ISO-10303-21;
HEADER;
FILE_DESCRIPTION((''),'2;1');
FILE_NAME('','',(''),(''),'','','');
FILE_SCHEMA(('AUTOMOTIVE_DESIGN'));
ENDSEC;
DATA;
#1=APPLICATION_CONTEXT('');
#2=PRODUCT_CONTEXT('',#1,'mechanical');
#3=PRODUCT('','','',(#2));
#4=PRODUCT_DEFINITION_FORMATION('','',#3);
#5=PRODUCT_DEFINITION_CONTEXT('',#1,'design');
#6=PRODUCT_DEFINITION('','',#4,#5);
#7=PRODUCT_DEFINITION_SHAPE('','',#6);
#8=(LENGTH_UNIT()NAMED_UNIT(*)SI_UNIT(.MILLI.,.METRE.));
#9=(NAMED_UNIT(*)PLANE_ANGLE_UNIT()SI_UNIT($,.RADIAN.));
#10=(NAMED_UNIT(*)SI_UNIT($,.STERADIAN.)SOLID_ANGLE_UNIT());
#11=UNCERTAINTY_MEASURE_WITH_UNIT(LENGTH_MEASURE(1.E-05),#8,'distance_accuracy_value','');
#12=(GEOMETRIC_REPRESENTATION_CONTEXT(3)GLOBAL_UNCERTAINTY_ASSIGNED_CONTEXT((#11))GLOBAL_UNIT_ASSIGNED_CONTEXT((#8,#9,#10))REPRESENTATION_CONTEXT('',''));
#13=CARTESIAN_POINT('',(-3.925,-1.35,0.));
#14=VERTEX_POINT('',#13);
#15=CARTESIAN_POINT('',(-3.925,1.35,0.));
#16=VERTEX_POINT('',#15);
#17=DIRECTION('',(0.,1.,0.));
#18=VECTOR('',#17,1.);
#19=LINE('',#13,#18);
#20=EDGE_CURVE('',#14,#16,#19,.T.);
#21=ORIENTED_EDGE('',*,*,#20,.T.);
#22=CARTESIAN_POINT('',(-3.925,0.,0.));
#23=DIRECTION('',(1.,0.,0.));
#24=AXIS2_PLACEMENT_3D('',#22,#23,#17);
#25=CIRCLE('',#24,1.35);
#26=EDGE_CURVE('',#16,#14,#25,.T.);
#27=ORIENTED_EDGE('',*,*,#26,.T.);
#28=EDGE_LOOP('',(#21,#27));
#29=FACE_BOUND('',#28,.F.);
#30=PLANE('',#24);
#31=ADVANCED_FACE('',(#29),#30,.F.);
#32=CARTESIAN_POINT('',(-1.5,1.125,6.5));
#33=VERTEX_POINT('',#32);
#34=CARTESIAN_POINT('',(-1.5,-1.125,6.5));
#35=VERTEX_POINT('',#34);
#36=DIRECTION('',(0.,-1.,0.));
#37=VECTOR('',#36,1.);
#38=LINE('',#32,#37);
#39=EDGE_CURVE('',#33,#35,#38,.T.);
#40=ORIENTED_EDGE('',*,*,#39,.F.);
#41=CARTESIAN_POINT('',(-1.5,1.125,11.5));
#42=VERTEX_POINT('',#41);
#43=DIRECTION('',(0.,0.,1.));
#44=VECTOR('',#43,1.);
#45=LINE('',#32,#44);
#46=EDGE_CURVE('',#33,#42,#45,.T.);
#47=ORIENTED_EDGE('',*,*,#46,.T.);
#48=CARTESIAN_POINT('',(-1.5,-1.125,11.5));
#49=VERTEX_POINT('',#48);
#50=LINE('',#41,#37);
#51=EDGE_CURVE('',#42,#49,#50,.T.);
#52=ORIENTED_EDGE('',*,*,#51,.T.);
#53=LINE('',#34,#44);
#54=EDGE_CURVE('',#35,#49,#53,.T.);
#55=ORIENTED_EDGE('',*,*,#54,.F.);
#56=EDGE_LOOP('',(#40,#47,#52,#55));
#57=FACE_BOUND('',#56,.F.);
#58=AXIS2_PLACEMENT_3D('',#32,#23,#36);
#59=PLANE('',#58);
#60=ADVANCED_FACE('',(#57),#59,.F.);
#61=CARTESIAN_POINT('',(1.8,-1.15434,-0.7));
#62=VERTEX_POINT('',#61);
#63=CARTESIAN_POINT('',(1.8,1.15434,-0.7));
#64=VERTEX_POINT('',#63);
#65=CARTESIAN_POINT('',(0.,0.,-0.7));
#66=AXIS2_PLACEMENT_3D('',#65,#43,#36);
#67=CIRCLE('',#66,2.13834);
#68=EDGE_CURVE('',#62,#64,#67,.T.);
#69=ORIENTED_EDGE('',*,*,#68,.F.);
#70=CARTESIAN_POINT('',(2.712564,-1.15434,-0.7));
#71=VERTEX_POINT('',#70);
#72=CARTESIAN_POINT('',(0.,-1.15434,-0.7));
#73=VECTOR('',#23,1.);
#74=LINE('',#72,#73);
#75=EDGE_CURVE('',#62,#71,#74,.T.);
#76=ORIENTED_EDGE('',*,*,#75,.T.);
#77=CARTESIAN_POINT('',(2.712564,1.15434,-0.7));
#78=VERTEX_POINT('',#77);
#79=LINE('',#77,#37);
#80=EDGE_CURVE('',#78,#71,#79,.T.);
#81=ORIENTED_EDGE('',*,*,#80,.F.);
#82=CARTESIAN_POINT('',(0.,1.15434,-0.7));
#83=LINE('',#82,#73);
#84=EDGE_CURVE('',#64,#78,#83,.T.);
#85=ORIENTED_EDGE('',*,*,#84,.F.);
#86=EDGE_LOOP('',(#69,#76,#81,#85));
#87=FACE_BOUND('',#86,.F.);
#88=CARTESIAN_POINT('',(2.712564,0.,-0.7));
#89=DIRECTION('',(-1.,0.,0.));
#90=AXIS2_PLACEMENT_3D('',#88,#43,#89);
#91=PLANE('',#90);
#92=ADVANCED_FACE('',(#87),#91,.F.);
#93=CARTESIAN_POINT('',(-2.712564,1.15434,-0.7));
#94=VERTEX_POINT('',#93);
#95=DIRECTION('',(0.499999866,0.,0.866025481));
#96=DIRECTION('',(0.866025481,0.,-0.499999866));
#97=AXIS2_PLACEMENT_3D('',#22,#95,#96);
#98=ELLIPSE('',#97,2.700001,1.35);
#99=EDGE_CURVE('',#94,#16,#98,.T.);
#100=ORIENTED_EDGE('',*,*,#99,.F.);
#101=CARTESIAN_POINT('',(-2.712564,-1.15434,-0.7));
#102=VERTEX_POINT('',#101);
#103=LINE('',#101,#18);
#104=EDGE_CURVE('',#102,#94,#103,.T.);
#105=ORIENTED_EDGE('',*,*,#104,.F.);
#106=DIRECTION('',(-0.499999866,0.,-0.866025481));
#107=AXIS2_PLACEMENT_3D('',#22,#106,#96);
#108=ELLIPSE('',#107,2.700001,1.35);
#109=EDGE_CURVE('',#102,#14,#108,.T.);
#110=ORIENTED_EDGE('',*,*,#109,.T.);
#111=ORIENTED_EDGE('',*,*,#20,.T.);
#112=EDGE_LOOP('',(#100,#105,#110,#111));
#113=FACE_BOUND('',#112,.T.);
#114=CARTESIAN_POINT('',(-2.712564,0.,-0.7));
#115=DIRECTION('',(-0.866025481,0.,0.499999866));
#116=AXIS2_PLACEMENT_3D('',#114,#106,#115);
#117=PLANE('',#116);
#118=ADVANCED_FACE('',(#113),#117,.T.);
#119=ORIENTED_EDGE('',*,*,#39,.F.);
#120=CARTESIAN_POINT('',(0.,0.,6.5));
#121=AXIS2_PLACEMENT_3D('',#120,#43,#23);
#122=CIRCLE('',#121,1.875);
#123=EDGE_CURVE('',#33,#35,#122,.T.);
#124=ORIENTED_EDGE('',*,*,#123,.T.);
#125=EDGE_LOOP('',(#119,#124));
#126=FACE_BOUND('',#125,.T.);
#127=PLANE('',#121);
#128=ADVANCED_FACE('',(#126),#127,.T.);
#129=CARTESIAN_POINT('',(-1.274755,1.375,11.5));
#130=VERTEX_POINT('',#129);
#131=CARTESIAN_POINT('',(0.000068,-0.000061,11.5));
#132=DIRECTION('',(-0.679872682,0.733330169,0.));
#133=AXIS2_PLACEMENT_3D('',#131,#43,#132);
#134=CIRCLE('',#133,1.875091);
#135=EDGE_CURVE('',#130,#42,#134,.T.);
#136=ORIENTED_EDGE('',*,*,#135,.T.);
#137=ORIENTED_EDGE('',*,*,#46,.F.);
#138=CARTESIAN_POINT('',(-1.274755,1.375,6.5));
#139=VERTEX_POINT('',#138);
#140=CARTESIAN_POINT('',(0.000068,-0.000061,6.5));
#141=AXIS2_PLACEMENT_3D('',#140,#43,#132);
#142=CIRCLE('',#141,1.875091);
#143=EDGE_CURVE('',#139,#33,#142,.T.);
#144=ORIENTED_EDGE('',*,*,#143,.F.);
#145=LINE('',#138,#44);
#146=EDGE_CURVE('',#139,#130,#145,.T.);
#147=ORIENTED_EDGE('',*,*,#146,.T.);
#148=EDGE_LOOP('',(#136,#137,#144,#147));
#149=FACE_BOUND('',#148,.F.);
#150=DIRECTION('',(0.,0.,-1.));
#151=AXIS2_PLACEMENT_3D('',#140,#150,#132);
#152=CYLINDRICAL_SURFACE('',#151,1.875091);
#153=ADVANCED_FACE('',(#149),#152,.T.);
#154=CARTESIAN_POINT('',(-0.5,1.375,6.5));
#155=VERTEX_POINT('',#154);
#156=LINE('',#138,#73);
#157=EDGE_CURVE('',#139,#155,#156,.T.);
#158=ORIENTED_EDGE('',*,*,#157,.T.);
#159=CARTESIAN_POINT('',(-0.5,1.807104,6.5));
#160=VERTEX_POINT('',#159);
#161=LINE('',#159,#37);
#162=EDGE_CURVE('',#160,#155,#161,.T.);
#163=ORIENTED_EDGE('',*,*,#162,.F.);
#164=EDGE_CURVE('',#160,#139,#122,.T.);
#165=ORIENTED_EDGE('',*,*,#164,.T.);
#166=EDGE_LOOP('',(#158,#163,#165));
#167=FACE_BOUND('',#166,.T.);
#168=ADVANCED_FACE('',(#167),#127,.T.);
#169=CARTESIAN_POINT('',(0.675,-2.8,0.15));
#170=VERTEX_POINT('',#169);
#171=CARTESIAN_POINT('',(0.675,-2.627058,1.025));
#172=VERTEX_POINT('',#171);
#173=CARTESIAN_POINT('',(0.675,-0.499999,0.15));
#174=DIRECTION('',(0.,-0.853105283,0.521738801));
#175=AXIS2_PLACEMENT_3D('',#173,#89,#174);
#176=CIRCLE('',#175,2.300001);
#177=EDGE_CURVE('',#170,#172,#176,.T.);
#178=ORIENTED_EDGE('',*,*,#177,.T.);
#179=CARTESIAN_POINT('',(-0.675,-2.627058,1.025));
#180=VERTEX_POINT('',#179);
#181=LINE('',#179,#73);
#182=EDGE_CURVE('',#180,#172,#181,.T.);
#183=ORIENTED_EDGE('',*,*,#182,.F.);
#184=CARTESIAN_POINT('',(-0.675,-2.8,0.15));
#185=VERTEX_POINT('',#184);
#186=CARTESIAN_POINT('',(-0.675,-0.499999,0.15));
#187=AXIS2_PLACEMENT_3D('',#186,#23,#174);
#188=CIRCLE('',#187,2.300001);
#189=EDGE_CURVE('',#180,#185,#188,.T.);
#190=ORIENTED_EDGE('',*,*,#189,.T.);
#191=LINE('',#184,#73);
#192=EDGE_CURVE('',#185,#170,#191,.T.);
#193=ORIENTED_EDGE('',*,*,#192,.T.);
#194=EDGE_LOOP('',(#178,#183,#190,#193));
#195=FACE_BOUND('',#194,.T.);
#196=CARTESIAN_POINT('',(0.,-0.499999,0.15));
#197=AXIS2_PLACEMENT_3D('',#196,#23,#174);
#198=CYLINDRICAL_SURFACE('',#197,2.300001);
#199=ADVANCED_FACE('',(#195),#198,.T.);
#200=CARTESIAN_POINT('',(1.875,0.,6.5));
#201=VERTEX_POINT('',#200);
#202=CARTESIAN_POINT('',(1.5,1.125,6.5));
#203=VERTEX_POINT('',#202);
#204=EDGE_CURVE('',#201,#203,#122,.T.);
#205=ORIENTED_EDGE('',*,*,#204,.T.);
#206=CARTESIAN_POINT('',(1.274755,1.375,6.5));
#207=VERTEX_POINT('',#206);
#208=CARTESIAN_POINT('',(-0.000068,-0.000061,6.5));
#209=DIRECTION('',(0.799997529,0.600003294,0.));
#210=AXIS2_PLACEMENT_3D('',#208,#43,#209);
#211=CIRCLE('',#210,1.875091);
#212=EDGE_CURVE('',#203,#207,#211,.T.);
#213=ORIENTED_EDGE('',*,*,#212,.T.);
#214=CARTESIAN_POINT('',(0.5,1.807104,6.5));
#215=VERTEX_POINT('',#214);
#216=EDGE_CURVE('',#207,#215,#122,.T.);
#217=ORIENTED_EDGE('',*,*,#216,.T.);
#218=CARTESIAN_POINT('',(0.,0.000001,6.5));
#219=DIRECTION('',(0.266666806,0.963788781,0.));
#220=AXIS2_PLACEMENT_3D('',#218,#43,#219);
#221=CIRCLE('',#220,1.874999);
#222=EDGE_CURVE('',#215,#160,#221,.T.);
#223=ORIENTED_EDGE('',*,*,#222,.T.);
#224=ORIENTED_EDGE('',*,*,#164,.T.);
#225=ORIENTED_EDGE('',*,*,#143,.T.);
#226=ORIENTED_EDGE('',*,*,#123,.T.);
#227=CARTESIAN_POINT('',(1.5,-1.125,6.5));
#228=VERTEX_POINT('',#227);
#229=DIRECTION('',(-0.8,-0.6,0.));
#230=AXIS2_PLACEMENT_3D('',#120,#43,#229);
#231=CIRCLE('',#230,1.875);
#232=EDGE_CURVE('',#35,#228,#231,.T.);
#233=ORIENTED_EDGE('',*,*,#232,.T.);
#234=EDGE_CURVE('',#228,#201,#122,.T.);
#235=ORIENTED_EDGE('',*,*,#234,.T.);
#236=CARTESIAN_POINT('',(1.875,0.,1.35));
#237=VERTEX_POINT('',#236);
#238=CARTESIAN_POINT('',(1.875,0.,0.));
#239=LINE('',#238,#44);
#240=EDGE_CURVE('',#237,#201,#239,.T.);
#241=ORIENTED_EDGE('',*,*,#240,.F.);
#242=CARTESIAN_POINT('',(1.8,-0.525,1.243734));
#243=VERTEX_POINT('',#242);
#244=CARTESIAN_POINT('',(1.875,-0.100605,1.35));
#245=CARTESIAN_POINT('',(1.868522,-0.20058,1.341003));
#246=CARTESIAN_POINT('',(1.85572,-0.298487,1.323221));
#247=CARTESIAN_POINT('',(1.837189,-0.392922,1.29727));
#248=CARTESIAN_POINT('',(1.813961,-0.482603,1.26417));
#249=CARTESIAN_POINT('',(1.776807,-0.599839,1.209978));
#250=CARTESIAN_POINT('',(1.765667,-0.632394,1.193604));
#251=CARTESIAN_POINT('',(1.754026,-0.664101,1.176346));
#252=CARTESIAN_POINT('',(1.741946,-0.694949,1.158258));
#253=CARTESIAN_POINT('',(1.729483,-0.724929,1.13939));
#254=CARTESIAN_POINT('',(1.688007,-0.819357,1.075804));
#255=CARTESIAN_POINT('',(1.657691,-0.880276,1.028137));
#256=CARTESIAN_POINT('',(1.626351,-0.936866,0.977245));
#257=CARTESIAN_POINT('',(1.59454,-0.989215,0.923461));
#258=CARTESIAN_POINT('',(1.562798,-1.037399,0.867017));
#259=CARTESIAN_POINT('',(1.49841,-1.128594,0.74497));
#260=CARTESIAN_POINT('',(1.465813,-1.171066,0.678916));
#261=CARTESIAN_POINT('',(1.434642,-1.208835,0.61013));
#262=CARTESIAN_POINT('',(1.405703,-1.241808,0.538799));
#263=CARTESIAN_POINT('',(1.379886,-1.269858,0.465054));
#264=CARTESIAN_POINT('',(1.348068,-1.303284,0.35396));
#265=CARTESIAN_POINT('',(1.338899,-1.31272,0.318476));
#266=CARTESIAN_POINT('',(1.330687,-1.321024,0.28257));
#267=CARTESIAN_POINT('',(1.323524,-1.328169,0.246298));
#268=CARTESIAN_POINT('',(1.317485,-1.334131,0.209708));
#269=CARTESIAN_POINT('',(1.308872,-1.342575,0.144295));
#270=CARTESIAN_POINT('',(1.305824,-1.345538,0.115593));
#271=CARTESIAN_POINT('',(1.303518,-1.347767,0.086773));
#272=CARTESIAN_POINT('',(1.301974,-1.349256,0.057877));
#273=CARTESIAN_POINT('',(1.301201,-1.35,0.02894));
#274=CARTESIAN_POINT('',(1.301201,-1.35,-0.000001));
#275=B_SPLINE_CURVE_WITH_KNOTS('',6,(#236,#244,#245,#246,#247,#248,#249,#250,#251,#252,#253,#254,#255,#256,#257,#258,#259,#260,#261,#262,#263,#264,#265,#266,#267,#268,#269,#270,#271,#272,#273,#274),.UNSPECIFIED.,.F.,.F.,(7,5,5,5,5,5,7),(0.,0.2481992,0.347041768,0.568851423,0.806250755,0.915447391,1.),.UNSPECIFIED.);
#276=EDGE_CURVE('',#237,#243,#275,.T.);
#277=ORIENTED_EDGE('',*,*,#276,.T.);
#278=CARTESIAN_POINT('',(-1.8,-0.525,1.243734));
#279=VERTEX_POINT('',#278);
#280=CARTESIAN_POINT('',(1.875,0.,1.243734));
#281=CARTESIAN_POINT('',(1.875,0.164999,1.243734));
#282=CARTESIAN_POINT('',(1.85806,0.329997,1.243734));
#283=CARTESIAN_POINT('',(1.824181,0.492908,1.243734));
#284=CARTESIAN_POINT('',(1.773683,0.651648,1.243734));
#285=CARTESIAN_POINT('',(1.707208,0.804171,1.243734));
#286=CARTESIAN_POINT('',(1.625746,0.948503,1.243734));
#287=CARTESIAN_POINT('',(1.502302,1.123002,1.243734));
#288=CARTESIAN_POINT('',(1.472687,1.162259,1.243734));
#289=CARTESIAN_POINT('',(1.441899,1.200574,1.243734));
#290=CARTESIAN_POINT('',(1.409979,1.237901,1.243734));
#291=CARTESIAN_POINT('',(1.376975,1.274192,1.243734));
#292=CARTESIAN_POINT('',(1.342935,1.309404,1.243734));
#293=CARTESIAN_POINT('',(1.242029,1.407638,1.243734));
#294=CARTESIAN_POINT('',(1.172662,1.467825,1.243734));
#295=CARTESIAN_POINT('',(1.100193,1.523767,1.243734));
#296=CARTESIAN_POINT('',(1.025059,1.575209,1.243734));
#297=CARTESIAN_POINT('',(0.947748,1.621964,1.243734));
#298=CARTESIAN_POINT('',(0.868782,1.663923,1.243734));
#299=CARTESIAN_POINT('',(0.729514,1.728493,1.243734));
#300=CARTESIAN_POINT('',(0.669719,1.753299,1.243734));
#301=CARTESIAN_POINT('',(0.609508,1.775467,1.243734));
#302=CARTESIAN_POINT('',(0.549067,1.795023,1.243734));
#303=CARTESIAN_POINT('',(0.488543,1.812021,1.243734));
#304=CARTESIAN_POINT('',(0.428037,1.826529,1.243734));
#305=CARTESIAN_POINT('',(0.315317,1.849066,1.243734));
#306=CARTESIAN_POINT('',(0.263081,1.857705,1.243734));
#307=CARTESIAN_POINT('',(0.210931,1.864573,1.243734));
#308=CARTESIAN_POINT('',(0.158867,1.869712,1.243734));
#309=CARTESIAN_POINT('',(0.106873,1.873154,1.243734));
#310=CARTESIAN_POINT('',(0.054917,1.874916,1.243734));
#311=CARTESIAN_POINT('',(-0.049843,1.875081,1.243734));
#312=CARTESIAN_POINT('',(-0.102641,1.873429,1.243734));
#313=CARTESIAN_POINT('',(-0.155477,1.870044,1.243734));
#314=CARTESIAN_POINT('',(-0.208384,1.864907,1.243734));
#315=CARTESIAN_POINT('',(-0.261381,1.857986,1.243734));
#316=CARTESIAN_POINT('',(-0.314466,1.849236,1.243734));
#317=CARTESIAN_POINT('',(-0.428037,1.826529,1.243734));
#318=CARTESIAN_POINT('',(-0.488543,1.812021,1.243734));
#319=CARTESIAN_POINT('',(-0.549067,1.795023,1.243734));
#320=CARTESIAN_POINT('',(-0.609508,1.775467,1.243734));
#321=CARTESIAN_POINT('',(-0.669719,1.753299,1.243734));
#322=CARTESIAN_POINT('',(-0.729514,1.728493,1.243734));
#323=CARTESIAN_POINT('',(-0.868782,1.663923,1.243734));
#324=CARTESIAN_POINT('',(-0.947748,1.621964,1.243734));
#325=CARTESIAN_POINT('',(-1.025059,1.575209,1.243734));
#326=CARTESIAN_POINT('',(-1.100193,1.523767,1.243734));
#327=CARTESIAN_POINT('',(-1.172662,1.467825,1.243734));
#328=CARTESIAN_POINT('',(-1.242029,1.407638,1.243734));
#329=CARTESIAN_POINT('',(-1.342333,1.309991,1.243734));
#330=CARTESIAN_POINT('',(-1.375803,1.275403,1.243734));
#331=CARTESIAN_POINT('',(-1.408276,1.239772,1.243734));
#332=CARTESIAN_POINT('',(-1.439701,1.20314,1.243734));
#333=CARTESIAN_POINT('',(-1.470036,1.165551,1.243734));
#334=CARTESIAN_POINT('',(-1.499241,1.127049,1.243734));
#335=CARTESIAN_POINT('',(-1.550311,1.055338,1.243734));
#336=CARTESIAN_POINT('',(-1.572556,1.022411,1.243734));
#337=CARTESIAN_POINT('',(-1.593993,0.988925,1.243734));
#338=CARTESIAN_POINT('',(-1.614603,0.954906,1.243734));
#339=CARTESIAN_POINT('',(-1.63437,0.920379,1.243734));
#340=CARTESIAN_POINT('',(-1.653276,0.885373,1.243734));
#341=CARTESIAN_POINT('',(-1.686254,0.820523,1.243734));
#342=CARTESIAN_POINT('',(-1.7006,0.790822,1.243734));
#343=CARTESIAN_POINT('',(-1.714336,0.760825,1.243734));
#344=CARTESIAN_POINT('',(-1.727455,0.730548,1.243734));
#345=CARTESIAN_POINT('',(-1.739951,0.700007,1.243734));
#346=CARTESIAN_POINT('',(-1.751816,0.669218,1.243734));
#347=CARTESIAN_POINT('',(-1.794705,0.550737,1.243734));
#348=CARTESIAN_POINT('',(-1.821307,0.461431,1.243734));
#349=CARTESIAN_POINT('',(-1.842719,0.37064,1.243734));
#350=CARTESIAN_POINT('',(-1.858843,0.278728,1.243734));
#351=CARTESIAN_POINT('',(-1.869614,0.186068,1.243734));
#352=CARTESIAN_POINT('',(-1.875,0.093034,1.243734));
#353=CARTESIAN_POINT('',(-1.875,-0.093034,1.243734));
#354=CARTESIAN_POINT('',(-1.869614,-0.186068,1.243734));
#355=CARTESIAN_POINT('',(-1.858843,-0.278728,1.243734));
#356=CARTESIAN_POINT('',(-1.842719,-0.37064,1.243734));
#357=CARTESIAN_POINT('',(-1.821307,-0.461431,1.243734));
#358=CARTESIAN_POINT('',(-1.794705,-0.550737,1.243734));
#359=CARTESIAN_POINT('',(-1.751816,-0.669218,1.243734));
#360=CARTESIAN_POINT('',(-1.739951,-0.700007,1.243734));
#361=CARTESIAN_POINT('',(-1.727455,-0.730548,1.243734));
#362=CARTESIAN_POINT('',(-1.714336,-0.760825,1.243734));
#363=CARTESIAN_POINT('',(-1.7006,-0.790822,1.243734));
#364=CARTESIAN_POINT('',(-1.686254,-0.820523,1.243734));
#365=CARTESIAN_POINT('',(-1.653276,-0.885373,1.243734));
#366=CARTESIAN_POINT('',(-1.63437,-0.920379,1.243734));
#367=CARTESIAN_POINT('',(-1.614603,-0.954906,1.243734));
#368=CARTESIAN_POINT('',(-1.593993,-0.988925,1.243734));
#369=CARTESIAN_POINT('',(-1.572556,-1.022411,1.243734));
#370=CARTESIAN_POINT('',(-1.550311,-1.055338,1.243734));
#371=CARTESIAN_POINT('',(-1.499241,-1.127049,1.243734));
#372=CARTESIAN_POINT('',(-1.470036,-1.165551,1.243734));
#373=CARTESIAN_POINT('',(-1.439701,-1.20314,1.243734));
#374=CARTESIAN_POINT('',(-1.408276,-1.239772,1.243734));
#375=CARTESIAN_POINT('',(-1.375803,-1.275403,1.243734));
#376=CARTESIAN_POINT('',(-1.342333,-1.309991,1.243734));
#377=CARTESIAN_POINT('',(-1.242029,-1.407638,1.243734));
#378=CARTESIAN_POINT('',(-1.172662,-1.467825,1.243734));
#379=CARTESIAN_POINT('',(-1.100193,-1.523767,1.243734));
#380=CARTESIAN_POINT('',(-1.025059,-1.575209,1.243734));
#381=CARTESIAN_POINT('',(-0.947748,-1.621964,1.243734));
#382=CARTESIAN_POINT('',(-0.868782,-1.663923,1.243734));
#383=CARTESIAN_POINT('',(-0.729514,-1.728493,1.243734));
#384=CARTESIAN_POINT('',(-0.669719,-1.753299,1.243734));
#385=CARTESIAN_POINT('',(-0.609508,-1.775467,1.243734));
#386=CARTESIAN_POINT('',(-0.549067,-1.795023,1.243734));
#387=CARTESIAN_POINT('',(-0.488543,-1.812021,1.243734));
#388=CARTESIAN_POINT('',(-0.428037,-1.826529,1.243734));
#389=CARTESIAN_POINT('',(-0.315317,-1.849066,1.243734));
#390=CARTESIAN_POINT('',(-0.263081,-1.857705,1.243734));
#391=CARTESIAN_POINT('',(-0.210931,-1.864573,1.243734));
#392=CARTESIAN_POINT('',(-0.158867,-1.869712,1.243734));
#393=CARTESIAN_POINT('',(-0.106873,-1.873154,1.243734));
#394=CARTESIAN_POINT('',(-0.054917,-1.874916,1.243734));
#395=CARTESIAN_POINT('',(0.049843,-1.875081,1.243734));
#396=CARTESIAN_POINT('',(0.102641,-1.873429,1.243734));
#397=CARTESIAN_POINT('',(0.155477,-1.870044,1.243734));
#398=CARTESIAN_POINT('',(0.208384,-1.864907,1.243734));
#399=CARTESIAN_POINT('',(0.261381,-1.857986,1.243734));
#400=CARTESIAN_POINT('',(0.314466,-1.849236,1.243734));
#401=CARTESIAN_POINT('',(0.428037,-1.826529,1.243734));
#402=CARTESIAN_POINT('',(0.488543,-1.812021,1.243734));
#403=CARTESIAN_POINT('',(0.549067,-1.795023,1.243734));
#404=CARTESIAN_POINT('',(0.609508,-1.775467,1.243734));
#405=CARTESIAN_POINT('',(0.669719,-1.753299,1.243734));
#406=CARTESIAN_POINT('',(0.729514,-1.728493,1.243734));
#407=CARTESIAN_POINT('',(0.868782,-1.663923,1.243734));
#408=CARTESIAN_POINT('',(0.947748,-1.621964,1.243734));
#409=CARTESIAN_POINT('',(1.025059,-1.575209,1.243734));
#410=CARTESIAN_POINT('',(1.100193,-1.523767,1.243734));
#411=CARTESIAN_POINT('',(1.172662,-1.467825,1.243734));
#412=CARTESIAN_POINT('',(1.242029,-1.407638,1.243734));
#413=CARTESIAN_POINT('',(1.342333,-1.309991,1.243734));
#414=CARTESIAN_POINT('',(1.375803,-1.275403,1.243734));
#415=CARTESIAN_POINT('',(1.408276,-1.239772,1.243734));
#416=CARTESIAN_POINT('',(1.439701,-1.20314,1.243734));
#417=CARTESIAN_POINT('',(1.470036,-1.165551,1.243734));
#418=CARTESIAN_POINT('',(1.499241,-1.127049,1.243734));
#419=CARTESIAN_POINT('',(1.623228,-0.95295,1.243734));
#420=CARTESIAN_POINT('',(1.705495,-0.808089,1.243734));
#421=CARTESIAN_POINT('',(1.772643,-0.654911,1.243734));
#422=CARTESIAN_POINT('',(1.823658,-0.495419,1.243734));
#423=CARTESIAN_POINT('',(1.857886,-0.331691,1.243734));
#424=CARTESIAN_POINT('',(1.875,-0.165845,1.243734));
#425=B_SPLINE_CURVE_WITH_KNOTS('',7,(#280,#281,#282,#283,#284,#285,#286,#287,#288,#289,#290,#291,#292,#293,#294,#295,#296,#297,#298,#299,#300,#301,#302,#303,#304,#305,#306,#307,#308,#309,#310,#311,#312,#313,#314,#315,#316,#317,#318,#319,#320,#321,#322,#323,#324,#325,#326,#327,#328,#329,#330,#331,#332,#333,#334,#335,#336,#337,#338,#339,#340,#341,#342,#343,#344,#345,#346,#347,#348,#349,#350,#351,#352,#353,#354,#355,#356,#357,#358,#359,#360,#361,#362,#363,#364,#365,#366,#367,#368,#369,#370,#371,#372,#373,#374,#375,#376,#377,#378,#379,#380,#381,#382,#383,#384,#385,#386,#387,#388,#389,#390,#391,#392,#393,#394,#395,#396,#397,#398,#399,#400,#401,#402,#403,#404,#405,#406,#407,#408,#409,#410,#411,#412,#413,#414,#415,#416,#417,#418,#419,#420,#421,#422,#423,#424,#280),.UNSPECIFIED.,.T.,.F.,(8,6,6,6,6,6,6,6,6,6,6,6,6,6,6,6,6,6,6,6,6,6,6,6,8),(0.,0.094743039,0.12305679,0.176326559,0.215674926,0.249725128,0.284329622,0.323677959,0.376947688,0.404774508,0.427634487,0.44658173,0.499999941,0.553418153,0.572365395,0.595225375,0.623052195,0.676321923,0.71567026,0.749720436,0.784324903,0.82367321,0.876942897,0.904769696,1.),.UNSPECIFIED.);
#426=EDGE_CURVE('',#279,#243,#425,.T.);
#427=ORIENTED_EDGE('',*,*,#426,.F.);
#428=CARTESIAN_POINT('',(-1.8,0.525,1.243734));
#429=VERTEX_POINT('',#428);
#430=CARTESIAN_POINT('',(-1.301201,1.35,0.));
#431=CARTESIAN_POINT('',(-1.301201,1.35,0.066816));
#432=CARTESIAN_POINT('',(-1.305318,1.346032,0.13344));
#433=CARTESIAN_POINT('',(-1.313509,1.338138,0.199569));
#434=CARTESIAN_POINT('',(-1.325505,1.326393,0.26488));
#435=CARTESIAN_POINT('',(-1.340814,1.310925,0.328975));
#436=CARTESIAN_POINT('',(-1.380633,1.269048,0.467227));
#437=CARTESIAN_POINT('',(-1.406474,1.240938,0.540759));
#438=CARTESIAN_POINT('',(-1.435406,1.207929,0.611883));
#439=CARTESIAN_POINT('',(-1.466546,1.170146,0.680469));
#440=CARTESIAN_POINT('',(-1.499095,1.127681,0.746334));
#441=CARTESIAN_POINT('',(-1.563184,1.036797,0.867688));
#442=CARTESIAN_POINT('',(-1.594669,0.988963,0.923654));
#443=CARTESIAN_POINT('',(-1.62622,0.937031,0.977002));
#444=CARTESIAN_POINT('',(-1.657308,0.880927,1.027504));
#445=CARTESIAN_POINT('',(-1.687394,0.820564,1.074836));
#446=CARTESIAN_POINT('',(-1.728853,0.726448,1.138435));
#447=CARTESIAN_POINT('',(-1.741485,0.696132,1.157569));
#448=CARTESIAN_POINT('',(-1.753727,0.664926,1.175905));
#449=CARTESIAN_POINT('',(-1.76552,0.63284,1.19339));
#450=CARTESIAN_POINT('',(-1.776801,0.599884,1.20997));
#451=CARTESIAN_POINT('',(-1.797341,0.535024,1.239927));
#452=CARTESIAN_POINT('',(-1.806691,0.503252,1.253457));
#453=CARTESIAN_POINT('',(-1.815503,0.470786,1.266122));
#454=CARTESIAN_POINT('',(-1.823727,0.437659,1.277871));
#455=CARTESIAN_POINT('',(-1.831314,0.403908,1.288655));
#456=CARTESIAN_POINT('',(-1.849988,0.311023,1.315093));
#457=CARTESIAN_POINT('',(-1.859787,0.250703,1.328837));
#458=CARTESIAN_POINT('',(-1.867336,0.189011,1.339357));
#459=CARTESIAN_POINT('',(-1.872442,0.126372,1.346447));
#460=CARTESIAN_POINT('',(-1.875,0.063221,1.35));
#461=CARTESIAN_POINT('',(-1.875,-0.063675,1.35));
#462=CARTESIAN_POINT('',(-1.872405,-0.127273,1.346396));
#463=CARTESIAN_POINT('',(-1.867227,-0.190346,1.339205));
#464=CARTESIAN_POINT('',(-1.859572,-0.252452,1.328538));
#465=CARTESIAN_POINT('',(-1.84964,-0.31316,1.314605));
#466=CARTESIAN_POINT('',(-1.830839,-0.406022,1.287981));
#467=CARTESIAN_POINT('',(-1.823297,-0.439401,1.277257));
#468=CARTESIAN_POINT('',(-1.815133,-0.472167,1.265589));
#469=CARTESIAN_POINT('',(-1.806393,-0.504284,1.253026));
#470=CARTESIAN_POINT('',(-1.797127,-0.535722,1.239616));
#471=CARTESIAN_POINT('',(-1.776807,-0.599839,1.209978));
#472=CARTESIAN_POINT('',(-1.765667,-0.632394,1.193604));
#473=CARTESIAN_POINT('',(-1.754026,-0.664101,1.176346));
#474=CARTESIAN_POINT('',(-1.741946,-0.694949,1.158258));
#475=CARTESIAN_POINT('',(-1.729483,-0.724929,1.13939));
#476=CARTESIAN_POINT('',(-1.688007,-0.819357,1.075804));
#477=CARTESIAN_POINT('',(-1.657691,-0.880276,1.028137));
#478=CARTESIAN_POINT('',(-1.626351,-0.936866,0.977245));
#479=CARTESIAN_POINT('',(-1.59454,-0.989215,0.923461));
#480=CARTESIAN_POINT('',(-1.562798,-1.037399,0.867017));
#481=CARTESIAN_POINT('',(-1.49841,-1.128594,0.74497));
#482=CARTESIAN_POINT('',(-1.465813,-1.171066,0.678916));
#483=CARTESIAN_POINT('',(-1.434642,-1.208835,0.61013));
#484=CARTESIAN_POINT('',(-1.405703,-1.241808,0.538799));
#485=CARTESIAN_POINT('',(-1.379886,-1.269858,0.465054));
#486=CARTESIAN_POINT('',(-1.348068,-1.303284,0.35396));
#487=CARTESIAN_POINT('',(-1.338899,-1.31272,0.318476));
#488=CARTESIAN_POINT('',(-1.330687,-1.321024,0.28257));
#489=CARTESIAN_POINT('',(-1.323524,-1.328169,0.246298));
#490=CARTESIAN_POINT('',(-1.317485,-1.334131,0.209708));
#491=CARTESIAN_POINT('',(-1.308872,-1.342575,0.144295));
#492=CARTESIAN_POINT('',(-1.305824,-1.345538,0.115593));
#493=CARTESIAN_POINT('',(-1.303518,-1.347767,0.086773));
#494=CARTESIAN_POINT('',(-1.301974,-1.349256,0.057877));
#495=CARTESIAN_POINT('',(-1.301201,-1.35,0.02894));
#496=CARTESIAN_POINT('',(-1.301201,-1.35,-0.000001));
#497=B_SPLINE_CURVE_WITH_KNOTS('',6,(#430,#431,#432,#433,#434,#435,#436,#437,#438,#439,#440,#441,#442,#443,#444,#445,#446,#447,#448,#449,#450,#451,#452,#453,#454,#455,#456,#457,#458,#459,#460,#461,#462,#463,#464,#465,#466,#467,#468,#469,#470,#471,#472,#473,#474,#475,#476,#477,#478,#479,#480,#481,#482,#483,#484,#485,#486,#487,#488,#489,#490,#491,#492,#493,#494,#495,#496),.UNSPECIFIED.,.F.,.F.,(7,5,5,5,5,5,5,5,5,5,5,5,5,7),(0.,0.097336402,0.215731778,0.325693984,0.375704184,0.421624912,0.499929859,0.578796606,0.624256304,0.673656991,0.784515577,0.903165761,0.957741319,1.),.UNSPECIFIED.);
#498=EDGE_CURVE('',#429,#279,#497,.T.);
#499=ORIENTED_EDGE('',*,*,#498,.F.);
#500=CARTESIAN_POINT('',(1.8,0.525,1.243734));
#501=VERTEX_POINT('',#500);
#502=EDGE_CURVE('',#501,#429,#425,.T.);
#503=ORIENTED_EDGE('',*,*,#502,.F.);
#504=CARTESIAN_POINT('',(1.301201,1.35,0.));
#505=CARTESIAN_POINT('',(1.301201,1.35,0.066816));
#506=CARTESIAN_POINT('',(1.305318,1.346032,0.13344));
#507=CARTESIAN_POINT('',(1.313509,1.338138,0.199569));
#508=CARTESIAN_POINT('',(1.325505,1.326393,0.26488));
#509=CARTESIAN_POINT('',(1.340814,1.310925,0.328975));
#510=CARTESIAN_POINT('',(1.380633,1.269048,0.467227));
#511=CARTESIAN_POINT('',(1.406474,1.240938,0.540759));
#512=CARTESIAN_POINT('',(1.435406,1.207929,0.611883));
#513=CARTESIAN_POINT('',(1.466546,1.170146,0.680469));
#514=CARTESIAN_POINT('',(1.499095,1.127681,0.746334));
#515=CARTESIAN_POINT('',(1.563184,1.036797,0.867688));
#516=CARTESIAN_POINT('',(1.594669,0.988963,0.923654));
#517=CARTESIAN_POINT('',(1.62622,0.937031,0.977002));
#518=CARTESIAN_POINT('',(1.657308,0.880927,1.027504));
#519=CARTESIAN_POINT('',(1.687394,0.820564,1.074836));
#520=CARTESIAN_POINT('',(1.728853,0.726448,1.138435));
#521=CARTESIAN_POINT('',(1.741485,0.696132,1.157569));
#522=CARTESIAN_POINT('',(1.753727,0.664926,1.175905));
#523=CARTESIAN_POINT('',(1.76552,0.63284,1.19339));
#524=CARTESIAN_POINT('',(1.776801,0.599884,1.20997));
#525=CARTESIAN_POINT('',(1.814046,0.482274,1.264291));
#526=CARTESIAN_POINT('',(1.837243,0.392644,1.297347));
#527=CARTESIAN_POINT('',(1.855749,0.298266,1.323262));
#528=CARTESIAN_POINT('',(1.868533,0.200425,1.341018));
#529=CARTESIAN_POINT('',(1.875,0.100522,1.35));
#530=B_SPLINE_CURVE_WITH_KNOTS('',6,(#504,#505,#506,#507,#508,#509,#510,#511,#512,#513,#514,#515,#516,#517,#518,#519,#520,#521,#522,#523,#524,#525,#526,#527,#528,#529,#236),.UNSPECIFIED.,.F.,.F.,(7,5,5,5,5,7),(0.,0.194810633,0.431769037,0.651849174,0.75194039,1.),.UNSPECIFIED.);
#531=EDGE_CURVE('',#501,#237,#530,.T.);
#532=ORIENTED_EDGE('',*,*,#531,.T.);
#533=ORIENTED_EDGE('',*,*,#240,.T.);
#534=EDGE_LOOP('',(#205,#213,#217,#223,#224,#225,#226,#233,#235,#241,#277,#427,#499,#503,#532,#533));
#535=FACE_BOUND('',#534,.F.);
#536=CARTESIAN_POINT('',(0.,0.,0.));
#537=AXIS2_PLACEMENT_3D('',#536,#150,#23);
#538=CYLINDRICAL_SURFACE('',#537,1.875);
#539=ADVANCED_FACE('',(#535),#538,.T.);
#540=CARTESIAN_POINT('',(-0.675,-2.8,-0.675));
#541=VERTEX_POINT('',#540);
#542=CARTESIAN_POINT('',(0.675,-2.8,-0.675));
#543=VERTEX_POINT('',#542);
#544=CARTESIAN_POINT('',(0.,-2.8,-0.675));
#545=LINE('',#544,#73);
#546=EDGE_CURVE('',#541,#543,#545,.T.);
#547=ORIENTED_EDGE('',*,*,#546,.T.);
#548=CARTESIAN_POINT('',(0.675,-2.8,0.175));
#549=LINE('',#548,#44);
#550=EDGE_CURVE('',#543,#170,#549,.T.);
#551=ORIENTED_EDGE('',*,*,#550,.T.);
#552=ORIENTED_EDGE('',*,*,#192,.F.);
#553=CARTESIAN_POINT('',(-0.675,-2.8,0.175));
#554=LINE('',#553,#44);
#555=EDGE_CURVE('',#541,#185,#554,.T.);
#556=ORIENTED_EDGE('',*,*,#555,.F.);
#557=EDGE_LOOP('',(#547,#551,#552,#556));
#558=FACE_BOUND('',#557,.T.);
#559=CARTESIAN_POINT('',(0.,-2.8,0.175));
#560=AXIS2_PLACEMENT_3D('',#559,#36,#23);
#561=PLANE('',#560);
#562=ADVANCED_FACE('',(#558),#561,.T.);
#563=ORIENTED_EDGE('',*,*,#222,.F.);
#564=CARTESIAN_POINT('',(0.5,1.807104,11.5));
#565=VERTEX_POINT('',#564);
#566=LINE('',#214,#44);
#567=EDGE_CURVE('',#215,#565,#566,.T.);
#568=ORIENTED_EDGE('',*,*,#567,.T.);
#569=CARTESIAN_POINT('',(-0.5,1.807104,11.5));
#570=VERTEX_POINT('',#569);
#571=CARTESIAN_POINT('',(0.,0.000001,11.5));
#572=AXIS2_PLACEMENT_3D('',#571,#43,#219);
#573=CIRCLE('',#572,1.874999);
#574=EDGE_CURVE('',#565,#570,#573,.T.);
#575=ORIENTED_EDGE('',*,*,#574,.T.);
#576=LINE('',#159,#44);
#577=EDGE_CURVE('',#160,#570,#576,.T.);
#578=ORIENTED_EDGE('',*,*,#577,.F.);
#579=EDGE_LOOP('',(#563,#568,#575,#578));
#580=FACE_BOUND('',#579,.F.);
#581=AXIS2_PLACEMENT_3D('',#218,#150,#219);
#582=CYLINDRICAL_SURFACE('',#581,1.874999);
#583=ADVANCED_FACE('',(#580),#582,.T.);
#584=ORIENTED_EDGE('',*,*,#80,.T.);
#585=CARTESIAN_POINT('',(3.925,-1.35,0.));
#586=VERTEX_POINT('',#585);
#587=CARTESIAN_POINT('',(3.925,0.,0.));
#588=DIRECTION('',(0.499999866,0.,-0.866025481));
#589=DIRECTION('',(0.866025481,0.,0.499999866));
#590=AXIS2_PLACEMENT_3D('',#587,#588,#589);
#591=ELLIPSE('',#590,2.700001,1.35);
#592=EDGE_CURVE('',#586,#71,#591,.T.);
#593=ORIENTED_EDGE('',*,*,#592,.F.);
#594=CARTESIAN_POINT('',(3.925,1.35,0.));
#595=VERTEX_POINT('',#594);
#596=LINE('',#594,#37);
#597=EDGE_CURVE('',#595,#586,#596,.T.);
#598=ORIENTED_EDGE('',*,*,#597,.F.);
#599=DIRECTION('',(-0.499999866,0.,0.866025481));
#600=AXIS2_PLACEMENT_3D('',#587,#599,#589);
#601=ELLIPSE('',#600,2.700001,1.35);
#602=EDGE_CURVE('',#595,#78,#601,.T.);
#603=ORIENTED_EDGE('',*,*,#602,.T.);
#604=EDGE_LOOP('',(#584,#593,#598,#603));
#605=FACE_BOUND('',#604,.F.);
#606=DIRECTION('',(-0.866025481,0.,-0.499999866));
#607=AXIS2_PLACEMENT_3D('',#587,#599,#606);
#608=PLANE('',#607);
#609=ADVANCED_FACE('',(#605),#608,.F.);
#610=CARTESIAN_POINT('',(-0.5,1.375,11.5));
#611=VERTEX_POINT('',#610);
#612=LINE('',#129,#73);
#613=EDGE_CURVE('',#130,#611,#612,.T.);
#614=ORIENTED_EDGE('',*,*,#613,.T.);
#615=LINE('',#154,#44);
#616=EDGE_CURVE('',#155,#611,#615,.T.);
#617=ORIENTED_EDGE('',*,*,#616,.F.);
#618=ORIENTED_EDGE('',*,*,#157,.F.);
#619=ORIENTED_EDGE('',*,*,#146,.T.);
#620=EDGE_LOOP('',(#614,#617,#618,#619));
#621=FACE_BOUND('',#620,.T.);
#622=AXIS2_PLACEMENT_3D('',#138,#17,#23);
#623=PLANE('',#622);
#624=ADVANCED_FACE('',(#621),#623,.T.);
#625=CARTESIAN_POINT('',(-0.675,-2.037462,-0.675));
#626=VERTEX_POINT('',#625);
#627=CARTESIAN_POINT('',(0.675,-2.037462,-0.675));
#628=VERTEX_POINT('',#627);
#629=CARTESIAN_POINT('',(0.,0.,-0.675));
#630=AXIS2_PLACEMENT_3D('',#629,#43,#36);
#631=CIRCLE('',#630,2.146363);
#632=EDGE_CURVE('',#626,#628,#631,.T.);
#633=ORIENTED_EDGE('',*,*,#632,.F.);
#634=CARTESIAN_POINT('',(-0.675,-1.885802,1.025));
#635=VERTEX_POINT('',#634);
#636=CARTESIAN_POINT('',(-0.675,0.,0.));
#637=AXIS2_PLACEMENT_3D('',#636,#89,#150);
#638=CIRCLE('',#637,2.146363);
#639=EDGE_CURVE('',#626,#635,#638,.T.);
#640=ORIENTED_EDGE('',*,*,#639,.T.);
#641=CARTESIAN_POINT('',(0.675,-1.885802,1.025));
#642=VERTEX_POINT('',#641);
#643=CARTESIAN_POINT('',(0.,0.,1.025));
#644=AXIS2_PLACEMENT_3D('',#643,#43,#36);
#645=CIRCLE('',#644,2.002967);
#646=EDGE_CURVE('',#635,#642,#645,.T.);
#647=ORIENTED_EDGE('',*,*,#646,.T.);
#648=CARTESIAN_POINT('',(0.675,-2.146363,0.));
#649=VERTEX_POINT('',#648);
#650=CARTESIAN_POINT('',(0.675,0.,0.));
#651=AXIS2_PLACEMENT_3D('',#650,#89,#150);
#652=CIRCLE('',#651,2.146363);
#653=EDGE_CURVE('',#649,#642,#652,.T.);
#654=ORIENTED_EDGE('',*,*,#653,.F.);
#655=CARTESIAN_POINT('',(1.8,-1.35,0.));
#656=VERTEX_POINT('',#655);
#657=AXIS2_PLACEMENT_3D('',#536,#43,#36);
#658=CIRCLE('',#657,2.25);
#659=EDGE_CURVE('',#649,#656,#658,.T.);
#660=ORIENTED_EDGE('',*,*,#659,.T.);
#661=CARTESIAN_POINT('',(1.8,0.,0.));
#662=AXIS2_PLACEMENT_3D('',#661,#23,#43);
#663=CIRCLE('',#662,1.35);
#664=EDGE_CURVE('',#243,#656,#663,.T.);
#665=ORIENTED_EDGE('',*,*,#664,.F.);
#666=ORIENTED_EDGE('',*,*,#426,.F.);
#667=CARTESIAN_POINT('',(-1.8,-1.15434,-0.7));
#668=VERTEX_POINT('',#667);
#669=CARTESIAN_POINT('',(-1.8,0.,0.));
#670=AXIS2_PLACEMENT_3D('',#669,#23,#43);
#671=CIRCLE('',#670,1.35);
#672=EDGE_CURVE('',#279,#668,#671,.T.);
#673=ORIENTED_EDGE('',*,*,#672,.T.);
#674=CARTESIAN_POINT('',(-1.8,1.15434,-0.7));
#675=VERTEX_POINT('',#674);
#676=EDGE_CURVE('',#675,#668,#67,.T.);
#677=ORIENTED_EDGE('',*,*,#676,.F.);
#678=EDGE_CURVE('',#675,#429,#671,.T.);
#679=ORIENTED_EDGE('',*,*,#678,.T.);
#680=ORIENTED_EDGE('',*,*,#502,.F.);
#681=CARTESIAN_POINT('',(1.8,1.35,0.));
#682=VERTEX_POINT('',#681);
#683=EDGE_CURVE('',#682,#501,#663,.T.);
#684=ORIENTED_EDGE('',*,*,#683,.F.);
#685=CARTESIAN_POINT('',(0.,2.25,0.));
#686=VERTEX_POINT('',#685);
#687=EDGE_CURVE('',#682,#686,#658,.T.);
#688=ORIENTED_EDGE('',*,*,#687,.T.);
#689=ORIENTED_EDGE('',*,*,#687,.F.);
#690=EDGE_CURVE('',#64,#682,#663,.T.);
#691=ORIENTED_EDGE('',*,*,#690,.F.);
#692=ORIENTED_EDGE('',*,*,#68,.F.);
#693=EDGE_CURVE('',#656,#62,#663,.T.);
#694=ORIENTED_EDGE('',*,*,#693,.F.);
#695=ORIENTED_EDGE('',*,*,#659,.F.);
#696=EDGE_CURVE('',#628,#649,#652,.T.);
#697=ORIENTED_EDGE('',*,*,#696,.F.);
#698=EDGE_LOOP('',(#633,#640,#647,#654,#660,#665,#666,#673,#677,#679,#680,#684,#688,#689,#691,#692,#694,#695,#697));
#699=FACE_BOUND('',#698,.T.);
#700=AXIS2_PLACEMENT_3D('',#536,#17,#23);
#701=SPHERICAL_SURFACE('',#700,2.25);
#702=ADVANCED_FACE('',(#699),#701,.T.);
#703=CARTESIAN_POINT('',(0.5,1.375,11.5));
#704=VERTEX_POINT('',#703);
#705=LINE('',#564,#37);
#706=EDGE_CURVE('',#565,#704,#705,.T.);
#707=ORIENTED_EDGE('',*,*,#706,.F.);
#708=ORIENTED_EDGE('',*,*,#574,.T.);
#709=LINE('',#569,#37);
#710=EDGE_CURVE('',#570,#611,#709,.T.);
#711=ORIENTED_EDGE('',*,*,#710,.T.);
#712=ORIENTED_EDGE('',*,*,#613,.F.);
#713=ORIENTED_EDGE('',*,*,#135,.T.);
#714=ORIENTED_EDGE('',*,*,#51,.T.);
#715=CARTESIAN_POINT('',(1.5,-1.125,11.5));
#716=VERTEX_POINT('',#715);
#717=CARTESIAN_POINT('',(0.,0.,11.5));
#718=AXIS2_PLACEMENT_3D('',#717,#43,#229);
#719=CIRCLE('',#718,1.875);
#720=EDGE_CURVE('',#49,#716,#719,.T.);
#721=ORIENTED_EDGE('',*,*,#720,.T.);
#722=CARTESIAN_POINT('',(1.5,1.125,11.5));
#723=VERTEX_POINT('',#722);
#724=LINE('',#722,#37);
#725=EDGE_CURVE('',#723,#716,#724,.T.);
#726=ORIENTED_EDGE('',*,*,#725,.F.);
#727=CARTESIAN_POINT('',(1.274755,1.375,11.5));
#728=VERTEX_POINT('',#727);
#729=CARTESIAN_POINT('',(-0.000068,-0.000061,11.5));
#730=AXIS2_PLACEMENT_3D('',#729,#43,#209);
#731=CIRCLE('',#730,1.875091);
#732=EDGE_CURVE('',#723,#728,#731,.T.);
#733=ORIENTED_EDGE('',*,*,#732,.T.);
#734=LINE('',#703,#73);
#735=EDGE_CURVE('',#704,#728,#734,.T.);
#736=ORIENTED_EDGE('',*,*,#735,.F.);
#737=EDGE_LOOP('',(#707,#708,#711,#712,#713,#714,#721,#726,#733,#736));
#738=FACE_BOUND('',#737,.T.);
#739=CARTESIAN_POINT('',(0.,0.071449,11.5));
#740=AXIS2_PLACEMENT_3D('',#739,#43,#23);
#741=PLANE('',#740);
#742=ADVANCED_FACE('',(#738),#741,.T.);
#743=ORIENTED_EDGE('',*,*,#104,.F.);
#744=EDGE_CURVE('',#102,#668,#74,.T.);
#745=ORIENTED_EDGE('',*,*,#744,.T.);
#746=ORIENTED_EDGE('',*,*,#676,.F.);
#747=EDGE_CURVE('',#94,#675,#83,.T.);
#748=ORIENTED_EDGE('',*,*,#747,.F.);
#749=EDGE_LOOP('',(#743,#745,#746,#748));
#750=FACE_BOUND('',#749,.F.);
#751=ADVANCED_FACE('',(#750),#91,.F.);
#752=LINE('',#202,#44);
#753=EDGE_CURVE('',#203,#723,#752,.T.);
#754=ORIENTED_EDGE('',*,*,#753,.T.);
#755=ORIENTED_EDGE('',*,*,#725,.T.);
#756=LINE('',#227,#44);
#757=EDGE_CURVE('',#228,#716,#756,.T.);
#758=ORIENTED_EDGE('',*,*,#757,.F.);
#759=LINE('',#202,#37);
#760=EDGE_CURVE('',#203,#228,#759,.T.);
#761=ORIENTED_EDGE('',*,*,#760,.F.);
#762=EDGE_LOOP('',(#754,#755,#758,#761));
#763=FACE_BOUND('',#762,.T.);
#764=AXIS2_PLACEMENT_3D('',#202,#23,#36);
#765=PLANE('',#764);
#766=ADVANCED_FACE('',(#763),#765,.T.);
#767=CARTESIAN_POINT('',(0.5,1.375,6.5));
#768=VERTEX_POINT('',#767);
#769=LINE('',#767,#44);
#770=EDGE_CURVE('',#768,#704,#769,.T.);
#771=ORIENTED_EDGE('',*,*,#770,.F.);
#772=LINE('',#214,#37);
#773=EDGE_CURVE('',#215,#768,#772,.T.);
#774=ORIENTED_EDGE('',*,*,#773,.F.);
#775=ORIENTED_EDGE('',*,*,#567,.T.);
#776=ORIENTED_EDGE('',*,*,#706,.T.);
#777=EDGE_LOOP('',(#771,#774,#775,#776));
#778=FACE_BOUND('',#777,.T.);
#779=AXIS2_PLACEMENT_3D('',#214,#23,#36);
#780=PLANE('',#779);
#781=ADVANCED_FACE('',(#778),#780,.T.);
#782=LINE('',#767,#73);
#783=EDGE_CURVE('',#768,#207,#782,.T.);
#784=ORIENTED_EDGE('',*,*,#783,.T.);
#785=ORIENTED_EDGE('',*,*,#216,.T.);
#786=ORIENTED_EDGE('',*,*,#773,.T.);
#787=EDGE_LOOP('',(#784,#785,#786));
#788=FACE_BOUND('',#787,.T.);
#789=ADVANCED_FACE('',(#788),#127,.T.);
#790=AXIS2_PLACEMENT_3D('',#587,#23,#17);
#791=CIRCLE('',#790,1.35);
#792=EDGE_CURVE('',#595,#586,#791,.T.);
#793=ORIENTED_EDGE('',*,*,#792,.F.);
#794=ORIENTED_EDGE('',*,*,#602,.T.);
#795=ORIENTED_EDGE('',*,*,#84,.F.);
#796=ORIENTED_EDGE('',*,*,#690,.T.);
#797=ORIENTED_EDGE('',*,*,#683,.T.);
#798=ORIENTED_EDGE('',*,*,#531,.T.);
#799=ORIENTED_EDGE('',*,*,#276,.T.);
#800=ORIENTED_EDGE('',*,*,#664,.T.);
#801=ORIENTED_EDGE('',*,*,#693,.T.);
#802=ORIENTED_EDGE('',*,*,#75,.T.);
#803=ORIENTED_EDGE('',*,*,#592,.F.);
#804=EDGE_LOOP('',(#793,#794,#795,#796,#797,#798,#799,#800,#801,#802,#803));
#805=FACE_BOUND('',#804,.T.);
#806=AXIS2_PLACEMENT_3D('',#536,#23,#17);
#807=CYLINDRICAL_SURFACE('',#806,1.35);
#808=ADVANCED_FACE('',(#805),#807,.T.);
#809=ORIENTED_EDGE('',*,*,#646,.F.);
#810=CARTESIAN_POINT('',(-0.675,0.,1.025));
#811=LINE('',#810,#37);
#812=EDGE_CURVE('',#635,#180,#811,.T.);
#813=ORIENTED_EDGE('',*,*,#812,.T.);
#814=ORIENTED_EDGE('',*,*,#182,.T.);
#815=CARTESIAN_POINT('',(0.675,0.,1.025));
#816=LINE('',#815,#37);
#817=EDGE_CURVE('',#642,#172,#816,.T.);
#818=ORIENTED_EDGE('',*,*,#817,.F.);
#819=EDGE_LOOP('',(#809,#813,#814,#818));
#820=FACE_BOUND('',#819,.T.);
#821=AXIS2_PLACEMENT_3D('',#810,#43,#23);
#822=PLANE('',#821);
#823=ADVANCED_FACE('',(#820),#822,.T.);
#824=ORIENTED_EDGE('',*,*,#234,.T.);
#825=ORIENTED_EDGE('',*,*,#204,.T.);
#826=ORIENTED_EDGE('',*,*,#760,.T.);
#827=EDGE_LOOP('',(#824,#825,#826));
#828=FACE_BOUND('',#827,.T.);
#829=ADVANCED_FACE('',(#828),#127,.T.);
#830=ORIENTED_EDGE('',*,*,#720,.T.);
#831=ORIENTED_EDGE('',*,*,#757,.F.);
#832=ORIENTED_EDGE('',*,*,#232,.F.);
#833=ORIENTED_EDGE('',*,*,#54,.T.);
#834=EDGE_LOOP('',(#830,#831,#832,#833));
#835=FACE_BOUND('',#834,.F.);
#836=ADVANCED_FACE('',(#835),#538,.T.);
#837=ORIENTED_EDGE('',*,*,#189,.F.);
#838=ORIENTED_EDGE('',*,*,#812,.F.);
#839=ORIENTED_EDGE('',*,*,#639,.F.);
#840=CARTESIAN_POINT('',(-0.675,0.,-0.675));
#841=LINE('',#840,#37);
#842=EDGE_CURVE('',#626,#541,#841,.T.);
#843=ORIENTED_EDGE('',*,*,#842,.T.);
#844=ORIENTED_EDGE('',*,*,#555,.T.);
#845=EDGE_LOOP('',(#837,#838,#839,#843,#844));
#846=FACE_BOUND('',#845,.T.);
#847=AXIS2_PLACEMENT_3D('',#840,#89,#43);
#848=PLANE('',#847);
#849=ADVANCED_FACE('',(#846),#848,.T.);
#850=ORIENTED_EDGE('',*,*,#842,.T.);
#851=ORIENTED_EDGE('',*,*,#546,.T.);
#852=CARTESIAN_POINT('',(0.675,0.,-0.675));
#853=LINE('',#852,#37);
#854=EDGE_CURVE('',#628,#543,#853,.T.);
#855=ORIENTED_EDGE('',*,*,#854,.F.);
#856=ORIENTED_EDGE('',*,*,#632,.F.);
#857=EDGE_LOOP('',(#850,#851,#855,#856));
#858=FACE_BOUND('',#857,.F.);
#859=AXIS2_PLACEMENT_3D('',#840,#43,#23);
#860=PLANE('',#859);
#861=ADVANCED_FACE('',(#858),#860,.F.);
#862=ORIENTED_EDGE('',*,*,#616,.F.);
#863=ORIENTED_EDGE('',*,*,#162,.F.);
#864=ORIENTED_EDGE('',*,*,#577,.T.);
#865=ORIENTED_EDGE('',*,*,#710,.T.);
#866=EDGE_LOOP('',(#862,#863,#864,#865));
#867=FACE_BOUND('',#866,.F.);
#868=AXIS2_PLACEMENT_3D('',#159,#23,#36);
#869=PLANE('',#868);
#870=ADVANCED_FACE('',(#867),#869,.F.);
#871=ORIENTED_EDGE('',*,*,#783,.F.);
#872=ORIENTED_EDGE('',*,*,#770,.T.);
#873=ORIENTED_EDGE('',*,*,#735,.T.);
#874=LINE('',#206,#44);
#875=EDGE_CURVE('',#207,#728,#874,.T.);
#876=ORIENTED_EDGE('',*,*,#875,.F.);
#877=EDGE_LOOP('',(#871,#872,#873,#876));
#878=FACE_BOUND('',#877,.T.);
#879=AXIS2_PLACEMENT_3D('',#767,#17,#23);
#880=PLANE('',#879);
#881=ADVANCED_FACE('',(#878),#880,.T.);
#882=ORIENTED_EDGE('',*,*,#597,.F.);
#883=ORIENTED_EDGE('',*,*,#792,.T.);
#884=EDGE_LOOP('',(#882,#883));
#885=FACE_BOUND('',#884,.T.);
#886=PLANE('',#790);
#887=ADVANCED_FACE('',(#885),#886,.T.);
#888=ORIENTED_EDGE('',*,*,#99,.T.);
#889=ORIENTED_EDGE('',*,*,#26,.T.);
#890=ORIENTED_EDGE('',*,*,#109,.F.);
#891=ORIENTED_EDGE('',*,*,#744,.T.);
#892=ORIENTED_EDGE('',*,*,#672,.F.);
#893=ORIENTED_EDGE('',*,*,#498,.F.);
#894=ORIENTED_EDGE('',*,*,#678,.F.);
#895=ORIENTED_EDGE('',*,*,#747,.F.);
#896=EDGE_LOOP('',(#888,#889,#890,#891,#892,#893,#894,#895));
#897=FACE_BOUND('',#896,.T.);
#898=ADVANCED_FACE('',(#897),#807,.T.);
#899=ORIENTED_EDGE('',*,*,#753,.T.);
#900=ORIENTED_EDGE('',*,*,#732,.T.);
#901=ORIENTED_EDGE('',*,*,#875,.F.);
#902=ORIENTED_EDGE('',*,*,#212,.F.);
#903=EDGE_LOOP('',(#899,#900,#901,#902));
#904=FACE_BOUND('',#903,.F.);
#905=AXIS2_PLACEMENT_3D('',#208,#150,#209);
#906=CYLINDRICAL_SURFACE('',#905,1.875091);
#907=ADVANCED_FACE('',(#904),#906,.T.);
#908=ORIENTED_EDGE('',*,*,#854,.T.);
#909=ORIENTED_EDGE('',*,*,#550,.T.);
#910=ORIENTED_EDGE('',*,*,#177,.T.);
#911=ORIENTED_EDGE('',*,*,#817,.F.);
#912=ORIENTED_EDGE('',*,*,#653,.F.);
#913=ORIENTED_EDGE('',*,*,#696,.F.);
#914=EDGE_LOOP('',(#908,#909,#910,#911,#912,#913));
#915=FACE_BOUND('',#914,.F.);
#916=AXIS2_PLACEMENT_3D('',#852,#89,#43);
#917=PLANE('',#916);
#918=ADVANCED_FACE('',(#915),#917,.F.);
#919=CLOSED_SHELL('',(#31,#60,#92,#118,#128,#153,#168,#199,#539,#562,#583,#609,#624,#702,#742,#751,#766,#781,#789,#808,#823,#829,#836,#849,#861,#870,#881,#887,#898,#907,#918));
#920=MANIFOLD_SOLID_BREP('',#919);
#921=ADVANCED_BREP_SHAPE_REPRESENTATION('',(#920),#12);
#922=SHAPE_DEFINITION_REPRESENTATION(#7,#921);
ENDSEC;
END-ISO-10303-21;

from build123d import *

# Parameters (mm, degrees)
SKETCH001_R          = 1.875
PAD_DEPTH            = 6.5
PAD002_DEPTH         = 5
SKETCH002_R          = 1.35
PAD001_DEPTH         = 3.925
POCKET_DEPTH         = 1.876
POCKET_DEPTH_BACK    = 1.876
SKETCH005_W          = 1.35
SKETCH005_H          = 1.7
PAD003_DEPTH         = 2.8
POCKET001_DEPTH      = 3.926
POCKET001_DEPTH_BACK = 3.926


with BuildPart() as part:
    # Sketch001 → Pad (new body)
    with BuildSketch(Plane.XY):
        Circle(SKETCH001_R)
    extrude(amount=PAD_DEPTH)

    # Sketch003 → Pad002 (join)
    with BuildSketch(Plane.XY.offset(6.5)):
        with BuildLine():
            ThreePointArc((1.5, 1.125), (1.392997, 1.255063), (1.274755, 1.375))
            Line((0.5, 1.375), (1.274755, 1.375))
            Line((0.5, 1.807104), (0.5, 1.375))
            ThreePointArc((0.5, 1.807104), (0, 1.875), (-0.5, 1.807104))
            Line((-0.5, 1.807104), (-0.5, 1.375))
            Line((-1.274755, 1.375), (-0.5, 1.375))
            ThreePointArc((-1.274755, 1.375), (-1.392997, 1.255063), (-1.5, 1.125))
            Line((-1.5, 1.125), (-1.5, -1.125))
            ThreePointArc((-1.5, -1.125), (0, -1.875), (1.5, -1.125))
            Line((1.5, 1.125), (1.5, -1.125))
        make_face()
    extrude(amount=PAD002_DEPTH)

    # Sketch002 → Pad001 (join, symmetric)
    with BuildSketch(Plane.YZ):
        Circle(SKETCH002_R)
    extrude(amount=PAD001_DEPTH, both=True)

    # Sketch004 → Pocket (cut, two sides)
    with BuildSketch(Plane.XZ) as pocket_sk:
        Polygon((-3.925, 0), (-3.925, -3), (3.925, -3), (3.925, 0), (2.712564, -0.7), (-2.712564, -0.7), align=None)
    extrude(amount=-POCKET_DEPTH, mode=Mode.SUBTRACT)
    extrude(pocket_sk.sketch, amount=POCKET_DEPTH_BACK, mode=Mode.SUBTRACT)

    # Sketch → Revolution (revolve)
    with BuildSketch(Plane.XY):
        with BuildLine():
            ThreePointArc((0, -2.25), (2.25, 0), (0, 2.25))
            Line((0, 2.25), (0, -2.25))
        make_face()
    revolve(axis=Axis((0, 0, 0), (0, 1, 0)))

    # Sketch005 → Pad003 (join)
    with BuildSketch(Plane.XZ):
        with Locations((0, 0.175)):
            Rectangle(SKETCH005_W, SKETCH005_H)
    extrude(amount=PAD003_DEPTH)

    # Sketch006 → Pocket001 (cut, two sides)
    with BuildSketch(Plane.YZ) as pocket001_sk:
        with BuildLine():
            Line((-2.8, 0.15), (-3.062142, 0.15))
            Line((-3.062142, 0.15), (-3.062142, 1.35))
            Line((-3.062142, 1.35), (-2.462142, 1.35))
            ThreePointArc((-2.462142, 1.35), (-2.713925, 0.773327), (-2.8, 0.15))
        make_face()
    extrude(amount=-POCKET001_DEPTH, mode=Mode.SUBTRACT)
    extrude(pocket001_sk.sketch, amount=POCKET001_DEPTH_BACK, mode=Mode.SUBTRACT)


solid = part.part
